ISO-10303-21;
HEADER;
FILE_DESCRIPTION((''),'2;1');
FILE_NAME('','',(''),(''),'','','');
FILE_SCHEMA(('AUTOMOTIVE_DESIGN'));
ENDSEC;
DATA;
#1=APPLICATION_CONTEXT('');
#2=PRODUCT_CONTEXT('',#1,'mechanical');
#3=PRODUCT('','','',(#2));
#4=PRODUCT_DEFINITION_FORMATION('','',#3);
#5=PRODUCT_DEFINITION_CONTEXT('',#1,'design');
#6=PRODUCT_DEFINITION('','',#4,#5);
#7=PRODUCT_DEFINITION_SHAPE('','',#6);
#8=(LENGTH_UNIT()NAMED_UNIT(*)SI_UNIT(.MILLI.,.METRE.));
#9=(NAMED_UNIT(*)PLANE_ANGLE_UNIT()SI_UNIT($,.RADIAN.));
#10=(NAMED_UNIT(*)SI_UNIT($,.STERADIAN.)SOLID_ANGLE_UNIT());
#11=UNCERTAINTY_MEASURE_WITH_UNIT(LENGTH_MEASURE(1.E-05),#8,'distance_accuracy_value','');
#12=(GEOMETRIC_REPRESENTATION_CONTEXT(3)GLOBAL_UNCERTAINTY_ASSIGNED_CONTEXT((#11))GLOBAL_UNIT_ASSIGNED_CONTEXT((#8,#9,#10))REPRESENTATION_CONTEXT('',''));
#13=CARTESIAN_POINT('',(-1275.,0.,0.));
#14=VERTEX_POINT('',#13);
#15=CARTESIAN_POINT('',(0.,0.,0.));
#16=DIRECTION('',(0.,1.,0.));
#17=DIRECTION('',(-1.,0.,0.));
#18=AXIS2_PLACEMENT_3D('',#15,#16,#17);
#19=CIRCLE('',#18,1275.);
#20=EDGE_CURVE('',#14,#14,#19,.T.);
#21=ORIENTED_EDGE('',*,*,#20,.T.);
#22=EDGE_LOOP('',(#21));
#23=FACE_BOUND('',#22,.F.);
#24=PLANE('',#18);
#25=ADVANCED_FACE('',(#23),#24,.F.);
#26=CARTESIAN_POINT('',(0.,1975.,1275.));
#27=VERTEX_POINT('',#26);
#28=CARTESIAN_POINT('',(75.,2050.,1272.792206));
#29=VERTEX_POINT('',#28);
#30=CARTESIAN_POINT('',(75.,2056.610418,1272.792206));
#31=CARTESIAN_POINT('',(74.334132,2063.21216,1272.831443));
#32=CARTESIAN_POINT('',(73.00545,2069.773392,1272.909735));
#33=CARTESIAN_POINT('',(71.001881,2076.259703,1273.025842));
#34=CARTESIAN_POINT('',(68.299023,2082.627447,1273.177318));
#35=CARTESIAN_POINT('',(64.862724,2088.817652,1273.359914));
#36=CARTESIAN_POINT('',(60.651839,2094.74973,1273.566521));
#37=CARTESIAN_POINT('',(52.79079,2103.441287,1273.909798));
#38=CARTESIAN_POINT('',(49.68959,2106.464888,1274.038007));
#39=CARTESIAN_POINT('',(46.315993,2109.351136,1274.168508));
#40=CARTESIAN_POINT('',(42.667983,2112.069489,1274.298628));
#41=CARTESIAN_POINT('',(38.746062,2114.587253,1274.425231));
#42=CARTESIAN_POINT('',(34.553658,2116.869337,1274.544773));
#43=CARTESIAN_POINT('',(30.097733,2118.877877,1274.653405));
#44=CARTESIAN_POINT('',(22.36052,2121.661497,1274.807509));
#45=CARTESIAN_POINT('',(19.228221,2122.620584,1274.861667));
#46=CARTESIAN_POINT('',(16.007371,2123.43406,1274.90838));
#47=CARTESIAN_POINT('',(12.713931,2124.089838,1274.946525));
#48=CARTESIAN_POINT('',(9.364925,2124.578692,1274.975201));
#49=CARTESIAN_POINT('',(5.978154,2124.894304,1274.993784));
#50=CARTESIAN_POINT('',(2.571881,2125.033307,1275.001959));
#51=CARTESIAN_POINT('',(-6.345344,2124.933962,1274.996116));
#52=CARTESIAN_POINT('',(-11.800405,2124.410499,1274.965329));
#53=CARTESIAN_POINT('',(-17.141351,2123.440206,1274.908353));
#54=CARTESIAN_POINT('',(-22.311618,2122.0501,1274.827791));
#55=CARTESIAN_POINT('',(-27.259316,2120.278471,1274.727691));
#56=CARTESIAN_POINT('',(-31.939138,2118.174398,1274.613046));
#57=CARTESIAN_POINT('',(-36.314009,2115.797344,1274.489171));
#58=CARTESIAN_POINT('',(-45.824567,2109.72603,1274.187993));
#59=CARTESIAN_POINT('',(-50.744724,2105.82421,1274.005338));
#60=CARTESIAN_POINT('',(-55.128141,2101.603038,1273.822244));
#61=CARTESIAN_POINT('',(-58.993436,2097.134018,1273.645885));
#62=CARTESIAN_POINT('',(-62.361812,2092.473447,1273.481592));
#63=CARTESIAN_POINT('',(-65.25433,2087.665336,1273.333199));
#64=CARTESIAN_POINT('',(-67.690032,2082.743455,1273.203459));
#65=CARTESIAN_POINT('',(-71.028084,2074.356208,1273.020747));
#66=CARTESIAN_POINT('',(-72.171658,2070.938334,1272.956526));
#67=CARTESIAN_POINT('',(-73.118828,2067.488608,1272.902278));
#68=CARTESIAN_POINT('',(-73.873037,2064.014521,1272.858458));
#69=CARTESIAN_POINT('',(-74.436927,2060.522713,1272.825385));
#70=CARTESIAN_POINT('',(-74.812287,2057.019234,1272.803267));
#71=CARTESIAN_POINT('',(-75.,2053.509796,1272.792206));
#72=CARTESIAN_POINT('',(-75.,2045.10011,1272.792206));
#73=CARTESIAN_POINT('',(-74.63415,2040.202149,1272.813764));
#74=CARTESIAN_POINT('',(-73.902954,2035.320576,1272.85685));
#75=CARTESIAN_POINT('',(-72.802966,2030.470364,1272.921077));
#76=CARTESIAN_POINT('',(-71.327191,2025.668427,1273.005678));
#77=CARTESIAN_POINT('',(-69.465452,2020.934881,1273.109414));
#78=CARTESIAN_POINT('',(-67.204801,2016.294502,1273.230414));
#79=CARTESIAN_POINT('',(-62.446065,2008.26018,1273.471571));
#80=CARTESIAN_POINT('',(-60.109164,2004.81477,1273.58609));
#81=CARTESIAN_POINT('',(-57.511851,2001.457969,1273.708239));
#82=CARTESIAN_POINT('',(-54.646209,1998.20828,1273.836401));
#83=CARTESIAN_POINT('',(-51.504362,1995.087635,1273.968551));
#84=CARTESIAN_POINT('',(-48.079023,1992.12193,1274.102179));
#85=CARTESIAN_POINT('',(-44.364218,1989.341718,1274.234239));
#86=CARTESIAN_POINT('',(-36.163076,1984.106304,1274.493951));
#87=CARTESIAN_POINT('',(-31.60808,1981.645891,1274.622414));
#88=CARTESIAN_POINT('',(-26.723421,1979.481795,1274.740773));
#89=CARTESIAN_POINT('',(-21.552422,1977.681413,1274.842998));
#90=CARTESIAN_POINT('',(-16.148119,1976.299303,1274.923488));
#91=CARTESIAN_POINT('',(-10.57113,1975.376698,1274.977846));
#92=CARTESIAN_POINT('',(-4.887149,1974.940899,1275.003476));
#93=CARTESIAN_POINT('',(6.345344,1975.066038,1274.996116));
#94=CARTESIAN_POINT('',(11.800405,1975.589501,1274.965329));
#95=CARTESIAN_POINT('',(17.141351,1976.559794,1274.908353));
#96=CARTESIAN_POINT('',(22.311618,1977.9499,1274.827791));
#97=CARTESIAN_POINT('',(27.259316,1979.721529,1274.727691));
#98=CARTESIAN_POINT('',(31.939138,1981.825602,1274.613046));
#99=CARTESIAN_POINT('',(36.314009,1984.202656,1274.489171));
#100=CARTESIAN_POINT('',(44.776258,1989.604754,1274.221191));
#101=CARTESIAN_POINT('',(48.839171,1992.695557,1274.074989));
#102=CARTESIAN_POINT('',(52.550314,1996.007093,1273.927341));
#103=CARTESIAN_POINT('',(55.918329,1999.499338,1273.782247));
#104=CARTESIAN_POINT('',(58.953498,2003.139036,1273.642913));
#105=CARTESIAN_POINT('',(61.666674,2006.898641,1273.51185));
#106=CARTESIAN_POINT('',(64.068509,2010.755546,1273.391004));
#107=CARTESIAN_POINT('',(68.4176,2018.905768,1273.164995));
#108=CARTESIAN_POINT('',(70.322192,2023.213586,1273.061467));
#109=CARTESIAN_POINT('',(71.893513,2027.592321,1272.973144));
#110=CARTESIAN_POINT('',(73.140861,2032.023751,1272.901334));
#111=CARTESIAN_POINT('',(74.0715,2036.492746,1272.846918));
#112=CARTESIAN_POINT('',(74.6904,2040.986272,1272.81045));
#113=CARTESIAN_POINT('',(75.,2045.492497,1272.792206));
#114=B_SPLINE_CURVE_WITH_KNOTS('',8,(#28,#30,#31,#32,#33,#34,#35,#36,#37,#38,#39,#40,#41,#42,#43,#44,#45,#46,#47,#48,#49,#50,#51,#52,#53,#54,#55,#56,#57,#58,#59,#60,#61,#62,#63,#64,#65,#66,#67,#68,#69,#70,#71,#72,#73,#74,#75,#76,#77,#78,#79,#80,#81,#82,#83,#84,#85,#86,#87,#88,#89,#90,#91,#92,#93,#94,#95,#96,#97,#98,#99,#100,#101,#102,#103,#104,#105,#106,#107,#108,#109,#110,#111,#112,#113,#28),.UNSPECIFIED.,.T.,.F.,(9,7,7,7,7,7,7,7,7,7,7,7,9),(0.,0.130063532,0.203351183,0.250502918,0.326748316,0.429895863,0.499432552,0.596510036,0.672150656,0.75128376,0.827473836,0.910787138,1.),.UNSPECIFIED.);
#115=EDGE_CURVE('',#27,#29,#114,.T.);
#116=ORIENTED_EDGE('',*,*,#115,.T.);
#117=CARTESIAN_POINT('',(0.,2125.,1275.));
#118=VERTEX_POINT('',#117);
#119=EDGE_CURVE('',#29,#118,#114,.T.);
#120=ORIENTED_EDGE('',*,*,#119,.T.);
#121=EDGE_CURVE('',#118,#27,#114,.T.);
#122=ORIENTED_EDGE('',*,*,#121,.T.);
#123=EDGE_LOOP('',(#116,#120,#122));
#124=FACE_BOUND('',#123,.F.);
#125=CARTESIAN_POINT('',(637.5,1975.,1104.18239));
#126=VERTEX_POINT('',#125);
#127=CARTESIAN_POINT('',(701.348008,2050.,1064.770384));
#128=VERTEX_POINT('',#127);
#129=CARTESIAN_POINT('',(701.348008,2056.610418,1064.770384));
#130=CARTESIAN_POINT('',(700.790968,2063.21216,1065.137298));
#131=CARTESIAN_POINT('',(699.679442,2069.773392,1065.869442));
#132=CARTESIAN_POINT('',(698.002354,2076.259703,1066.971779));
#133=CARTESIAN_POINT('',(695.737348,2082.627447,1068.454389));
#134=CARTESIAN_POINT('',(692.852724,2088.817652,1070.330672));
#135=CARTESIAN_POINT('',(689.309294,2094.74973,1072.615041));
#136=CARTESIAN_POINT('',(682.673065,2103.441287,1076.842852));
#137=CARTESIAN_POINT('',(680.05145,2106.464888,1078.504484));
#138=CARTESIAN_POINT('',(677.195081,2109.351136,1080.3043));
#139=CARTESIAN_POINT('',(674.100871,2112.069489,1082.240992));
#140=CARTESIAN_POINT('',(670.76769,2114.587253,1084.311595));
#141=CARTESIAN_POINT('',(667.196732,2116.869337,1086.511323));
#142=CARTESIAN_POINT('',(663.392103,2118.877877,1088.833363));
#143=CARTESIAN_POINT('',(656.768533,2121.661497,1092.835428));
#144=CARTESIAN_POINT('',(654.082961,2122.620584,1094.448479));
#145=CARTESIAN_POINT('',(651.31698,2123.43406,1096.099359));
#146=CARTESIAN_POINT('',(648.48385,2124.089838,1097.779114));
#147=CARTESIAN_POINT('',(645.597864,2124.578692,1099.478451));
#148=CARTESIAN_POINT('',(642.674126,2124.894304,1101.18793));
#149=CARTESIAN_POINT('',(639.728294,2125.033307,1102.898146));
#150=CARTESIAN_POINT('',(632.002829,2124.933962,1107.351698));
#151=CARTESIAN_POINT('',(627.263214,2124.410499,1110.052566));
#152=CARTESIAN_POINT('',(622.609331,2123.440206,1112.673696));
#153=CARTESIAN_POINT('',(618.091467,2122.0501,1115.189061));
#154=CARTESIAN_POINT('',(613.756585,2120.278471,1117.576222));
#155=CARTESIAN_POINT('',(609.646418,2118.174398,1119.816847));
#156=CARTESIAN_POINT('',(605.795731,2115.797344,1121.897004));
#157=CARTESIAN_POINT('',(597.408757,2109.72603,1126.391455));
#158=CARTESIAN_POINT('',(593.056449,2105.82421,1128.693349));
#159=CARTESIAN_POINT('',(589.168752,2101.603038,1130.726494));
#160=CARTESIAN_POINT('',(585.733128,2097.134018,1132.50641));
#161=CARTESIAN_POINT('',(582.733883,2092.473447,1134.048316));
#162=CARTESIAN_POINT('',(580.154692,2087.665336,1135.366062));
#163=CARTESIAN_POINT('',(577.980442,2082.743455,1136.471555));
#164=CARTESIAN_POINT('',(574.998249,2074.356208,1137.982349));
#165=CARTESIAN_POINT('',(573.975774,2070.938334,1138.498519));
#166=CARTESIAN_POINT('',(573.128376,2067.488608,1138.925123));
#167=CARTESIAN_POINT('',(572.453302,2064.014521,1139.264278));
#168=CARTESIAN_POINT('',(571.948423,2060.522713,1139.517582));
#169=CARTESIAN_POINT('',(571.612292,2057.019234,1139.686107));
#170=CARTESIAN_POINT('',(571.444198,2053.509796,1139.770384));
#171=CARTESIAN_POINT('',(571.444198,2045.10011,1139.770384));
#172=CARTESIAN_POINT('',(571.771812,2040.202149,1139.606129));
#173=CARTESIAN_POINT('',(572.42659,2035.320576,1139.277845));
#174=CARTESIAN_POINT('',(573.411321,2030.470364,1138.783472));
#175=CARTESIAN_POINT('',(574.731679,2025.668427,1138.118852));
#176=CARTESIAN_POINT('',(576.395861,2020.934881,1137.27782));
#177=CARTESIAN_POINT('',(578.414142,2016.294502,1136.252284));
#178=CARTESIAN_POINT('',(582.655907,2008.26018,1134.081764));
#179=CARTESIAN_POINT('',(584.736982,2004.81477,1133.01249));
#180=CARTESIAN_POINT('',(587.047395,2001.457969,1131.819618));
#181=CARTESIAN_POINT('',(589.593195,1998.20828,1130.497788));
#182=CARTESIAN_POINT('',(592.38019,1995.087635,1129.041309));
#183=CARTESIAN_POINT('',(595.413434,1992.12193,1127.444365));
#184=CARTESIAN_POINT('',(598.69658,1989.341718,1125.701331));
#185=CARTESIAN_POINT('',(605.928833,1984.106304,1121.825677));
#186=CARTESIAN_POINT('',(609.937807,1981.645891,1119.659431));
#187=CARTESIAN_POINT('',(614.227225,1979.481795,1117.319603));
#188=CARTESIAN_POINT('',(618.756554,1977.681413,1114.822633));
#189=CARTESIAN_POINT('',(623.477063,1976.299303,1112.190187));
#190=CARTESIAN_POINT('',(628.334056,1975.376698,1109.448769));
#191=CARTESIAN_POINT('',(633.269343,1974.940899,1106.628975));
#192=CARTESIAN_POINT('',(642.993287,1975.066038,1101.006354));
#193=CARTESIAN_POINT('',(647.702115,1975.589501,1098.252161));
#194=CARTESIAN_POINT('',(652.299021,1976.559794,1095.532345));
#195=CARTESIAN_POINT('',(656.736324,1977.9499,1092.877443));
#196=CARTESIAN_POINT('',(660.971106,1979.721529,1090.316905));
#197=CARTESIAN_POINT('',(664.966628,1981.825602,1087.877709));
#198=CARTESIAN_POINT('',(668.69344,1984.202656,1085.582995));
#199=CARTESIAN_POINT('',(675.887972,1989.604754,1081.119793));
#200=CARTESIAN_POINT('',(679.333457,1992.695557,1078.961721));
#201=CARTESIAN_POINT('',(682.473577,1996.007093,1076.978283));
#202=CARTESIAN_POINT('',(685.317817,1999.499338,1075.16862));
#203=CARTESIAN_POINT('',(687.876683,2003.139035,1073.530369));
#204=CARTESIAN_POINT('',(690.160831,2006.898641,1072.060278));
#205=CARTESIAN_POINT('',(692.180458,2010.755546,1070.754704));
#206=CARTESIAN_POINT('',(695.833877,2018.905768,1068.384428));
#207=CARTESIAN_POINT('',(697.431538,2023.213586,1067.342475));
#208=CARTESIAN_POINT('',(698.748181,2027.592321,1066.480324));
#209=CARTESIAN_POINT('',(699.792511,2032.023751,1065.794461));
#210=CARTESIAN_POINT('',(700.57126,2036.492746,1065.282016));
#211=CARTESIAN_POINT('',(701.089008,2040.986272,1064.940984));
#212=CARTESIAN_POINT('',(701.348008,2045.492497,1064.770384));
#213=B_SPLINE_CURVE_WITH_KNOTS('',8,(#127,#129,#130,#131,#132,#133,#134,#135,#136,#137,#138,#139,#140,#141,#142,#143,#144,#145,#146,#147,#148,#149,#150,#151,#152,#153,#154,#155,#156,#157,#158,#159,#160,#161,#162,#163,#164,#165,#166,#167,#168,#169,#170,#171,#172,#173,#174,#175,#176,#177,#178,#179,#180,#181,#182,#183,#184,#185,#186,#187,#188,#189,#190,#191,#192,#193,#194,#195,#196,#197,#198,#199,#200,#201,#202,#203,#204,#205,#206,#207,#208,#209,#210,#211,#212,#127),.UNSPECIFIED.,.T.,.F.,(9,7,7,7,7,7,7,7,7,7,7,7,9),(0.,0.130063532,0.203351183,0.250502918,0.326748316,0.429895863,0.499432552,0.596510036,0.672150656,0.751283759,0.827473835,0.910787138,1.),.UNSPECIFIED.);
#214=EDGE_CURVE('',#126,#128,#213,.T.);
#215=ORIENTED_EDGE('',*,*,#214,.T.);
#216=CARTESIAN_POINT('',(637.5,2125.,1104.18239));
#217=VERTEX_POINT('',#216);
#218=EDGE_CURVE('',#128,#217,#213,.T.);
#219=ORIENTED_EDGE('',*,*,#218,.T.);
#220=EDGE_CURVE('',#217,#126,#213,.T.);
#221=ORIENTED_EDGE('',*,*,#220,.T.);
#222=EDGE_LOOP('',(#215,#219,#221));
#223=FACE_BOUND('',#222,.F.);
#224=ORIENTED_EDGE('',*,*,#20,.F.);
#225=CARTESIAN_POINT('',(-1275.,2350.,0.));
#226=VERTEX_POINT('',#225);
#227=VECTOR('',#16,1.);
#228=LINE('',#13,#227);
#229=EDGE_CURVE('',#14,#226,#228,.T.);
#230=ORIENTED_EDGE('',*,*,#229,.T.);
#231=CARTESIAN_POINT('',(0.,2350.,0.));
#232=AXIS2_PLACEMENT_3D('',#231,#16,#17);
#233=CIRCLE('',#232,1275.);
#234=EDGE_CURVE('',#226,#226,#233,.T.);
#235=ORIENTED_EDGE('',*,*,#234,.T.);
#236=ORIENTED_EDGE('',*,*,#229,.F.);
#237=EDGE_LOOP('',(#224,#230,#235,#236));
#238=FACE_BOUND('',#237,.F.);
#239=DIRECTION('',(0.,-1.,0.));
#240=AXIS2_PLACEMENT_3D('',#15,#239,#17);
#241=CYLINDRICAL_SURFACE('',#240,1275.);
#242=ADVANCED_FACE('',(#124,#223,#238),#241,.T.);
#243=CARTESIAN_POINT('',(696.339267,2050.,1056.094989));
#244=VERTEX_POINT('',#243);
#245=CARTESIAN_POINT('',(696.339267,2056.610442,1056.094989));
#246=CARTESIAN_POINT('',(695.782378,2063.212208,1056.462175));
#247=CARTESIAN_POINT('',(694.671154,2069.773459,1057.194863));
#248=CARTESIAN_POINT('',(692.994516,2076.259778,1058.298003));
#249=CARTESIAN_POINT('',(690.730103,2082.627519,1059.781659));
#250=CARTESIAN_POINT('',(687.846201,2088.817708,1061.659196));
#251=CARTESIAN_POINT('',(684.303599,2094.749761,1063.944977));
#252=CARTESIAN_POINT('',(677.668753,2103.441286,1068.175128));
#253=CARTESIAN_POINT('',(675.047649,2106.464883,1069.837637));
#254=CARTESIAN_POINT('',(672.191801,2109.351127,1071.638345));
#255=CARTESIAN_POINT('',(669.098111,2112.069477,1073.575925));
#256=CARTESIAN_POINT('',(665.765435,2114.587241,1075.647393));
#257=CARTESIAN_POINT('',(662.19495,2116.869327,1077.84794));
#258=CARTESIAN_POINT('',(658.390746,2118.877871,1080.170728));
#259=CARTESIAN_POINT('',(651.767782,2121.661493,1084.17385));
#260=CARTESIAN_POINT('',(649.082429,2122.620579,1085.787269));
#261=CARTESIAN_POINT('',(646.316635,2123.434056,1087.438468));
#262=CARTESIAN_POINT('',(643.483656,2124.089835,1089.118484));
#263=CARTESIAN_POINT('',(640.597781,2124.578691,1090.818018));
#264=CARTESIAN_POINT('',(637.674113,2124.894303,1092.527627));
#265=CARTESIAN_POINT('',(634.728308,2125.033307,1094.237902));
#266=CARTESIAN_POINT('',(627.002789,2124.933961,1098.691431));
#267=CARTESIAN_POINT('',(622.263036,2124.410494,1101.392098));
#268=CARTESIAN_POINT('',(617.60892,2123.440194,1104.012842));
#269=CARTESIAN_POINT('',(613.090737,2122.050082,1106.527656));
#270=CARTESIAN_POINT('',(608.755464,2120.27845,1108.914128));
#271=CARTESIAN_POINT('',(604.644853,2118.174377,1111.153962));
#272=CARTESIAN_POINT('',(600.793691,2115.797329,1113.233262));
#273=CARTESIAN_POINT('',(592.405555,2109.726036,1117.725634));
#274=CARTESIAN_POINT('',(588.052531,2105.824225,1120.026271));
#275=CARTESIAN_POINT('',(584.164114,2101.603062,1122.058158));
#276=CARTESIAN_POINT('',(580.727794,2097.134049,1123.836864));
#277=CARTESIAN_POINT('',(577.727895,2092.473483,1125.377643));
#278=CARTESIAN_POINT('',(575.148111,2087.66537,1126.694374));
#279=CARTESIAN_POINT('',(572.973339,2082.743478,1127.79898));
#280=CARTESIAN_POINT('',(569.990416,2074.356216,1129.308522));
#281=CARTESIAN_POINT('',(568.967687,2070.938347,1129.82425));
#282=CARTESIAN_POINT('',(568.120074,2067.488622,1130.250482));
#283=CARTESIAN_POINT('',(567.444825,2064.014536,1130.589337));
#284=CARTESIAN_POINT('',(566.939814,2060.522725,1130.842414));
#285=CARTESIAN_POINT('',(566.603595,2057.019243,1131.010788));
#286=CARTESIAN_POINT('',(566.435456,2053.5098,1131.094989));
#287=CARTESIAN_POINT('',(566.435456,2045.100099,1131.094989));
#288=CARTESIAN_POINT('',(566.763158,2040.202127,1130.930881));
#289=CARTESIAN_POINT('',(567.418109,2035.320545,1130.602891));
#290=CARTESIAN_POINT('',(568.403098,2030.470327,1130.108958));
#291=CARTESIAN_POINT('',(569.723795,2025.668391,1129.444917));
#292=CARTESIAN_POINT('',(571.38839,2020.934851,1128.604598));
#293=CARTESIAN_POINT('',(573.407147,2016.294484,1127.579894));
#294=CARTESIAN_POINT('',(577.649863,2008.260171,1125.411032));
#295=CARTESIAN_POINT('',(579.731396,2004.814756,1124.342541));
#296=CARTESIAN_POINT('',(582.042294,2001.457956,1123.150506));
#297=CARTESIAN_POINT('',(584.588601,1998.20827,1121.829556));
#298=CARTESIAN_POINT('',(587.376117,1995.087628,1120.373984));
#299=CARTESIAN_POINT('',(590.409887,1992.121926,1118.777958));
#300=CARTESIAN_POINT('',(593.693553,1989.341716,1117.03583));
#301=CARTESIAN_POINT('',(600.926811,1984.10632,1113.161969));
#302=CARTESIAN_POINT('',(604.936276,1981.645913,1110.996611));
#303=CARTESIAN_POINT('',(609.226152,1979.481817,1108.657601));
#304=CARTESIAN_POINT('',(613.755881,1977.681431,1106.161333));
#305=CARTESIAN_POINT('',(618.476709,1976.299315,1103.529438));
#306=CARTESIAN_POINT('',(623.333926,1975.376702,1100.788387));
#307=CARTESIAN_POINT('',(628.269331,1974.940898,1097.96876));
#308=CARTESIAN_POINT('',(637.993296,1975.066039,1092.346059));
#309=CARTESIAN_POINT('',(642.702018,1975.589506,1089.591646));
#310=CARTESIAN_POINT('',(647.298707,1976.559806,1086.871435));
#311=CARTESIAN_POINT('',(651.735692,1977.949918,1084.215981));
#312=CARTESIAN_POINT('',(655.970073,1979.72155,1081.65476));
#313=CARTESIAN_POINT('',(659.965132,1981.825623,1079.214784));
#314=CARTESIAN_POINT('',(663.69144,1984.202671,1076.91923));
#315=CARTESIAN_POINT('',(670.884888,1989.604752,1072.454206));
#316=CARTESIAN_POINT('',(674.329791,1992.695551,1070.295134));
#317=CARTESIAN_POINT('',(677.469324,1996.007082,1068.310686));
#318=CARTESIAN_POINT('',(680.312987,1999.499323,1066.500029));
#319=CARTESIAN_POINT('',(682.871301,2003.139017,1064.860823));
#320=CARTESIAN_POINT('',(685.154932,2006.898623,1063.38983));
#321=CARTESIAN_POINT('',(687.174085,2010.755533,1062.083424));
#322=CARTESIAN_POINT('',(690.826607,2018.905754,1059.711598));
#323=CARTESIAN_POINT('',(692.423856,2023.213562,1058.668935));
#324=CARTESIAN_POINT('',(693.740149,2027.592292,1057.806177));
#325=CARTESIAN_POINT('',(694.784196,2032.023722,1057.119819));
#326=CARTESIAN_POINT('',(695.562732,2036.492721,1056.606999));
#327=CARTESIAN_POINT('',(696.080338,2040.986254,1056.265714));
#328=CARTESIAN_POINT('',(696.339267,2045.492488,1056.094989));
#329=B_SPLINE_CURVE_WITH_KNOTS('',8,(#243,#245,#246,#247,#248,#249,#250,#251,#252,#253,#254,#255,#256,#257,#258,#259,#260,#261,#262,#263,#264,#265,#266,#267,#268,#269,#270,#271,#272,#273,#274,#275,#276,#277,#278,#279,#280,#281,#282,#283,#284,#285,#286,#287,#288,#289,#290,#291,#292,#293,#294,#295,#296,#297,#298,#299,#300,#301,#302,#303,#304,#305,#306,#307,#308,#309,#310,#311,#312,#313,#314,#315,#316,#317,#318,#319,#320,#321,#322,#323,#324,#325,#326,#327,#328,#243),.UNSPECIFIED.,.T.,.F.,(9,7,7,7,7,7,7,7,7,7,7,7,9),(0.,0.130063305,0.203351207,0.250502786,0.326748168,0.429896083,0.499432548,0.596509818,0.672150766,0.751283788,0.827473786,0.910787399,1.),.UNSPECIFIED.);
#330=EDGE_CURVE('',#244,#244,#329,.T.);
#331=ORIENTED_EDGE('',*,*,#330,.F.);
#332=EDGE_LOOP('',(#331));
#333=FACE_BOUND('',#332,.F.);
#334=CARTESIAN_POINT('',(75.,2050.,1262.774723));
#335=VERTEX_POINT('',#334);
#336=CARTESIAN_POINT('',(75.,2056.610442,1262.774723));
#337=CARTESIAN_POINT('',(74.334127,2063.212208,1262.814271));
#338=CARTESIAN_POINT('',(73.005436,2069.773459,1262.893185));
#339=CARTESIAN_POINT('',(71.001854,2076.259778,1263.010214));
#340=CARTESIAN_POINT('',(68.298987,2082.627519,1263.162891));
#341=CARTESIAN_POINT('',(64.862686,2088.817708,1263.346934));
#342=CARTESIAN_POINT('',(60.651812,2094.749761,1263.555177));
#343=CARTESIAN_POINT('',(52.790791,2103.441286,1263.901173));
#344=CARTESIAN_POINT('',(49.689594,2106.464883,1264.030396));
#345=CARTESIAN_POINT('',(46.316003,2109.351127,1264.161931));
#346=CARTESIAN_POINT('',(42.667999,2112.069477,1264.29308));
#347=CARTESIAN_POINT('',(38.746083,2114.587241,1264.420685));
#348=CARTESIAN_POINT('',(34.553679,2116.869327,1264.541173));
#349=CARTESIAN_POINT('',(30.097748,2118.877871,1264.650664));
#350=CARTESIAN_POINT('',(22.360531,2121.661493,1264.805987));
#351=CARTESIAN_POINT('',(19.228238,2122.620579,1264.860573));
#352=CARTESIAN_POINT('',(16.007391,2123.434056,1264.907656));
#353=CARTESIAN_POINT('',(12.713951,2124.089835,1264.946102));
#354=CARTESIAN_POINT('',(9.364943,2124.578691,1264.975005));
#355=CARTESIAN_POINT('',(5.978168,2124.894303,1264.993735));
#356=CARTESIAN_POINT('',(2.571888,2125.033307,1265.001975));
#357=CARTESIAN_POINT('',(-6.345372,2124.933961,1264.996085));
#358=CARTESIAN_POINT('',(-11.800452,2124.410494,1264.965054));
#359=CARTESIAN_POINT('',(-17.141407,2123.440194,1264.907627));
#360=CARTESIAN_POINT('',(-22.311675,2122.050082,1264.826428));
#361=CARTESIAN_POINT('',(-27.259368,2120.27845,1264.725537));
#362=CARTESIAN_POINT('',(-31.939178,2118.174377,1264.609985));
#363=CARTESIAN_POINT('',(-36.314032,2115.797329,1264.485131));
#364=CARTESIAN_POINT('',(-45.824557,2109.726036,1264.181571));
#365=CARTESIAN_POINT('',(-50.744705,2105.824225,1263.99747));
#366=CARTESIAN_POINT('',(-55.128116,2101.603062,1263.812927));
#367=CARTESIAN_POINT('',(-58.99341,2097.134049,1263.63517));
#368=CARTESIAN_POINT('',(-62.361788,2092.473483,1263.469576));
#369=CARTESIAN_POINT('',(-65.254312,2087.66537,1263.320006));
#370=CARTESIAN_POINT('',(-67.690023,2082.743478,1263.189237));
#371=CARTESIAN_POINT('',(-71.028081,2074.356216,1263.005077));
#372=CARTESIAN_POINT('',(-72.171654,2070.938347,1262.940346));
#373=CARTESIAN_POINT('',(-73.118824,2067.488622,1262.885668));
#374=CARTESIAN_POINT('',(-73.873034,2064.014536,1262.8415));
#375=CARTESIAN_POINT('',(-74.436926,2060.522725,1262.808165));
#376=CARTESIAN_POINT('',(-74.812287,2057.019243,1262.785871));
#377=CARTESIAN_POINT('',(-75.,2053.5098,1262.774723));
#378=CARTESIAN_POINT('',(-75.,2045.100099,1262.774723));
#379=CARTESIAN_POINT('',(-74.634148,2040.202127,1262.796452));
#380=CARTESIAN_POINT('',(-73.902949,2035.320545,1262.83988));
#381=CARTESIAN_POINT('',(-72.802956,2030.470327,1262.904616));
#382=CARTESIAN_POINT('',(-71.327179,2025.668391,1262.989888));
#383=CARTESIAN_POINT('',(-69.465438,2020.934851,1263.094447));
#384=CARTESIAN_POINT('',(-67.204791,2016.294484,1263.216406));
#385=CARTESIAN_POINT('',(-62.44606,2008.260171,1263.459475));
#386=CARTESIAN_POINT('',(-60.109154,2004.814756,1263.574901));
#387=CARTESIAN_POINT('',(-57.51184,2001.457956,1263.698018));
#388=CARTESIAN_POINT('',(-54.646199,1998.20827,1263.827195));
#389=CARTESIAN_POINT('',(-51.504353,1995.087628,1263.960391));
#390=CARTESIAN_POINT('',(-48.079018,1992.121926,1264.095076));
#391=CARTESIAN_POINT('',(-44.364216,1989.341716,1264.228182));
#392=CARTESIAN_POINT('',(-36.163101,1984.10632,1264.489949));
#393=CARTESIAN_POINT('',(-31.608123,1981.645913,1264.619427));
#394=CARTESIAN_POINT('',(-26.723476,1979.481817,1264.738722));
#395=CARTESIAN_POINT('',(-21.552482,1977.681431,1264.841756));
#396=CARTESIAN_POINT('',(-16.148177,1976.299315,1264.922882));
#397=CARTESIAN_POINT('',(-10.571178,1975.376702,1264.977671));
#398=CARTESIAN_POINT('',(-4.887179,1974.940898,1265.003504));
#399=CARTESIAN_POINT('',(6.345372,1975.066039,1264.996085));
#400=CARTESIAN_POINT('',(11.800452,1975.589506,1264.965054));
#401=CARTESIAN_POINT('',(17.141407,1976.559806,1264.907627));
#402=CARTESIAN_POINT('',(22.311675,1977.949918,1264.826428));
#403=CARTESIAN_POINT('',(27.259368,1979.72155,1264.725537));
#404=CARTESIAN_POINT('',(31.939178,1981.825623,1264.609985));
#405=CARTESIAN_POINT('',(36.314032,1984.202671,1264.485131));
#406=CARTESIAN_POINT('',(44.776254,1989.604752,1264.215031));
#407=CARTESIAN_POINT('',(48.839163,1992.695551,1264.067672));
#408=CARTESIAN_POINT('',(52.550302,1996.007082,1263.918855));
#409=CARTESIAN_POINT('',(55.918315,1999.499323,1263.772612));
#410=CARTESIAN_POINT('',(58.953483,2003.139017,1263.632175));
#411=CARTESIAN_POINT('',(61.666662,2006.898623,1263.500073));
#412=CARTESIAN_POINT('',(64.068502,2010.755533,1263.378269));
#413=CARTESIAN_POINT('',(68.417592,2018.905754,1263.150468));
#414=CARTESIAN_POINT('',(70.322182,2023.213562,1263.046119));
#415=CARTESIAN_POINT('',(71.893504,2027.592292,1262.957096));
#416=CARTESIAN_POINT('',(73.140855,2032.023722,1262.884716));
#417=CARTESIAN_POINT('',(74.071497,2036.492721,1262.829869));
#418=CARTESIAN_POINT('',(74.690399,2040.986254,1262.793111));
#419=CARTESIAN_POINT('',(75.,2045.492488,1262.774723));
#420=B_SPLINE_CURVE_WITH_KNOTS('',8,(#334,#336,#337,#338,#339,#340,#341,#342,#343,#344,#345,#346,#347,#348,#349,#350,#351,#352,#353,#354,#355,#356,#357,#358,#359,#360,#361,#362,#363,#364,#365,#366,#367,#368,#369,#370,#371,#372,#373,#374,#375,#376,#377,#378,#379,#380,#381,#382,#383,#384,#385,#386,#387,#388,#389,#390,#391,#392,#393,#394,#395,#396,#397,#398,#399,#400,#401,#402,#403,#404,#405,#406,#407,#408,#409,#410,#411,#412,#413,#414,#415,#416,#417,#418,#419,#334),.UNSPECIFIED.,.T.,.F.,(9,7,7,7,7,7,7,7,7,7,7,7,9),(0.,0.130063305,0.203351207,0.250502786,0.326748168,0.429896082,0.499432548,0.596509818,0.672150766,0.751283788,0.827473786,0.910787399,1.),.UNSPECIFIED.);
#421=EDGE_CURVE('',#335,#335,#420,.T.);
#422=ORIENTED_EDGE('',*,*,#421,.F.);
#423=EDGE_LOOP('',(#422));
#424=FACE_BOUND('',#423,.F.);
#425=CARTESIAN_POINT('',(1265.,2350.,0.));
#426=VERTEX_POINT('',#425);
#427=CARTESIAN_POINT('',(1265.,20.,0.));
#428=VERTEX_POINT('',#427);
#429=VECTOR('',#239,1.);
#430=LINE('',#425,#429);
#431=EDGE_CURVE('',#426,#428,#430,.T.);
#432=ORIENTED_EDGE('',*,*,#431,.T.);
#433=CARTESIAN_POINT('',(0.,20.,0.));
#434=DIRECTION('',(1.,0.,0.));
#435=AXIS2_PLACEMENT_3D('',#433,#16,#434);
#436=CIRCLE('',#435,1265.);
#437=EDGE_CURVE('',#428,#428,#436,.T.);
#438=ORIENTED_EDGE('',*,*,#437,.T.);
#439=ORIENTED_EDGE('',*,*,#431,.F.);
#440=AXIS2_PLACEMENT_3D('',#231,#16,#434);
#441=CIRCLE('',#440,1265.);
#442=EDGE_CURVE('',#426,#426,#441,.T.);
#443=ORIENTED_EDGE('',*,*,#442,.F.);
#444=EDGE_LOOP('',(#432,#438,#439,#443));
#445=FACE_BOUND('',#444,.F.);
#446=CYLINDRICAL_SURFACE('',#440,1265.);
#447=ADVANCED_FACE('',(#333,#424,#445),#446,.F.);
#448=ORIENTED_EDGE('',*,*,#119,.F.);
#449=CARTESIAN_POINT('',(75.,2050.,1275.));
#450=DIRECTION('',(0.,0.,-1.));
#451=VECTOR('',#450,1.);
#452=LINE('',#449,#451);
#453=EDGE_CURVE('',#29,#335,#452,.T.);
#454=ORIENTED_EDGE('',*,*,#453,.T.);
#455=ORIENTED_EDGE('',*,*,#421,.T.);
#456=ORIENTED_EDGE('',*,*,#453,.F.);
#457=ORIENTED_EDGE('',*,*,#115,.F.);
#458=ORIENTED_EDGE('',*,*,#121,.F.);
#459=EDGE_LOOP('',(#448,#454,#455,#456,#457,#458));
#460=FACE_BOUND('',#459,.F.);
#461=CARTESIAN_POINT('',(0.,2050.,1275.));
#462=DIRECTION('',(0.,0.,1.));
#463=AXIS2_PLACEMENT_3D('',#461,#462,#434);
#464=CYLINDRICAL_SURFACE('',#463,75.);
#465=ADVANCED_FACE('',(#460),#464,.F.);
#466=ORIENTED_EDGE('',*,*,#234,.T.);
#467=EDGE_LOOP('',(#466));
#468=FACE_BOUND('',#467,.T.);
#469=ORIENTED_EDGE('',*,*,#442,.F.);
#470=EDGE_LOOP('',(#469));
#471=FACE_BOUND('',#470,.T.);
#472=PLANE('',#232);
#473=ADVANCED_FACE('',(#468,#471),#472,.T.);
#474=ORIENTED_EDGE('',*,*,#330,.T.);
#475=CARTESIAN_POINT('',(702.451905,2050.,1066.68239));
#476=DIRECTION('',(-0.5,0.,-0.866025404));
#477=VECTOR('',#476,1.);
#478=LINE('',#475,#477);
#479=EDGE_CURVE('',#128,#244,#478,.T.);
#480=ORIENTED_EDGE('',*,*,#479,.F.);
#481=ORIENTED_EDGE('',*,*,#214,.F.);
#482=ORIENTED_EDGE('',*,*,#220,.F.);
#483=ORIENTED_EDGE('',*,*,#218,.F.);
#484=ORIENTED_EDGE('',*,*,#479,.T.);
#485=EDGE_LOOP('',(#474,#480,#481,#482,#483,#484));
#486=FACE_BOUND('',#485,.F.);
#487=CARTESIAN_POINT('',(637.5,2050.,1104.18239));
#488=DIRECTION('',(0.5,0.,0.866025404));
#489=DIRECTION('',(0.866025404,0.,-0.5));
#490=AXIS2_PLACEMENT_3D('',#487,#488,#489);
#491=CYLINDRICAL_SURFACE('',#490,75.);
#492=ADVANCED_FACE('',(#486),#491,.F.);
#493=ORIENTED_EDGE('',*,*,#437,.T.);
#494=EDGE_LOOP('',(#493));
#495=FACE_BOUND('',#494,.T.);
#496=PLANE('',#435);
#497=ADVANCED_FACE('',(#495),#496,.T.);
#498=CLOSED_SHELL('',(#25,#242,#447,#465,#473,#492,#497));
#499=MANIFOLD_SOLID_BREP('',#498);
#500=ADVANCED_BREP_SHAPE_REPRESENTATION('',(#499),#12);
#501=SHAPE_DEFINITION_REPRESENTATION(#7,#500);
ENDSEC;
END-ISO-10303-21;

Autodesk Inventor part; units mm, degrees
ref_plane "YZ Plane" through (0, 0, 0) normal (1, 0, 0) x (0, 1, 0)
ref_plane "XZ Plane" through (0, 0, 0) normal (0, 1, 0) x (-1, 0, 0)
sketch "Sketch1" plane through (0, 0, 0) normal (0, 1, 0) x (-1, 0, 0)
  circle A0 centre (0, 0) radius 1275
  dimension "d0" = 2550
extrude "Extrusion1" add sketch "Sketch1" along normal blind 2350
sketch "Sketch2" plane through (0, 2350, 0) normal (0, 1, 0) x (1, 0, 0)
  circle A0 centre (0, 0) radius 1265
  dimension "d3" = 2530
extrude "Extrusion2" cut sketch "Sketch2" against normal blind 2330
ref_plane "Work Plane2" through (0, 0, 1275) normal (0, 0, 1) x (1, 0, 0)
sketch "Sketch3" plane through (0, 0, 1275) normal (0, 0, 1) x (1, 0, 0)
  circle A0 centre (0, 2050) radius 75
  line L0 (1275, 2350) -> (-1275, 2350) projected
  point P0 (0, 0)
  dimension "d6" = 150
  dimension "d7" = 300
extrude "Extrusion3" cut sketch "Sketch3" against normal blind 30
pattern_circular "Circular Pattern1" count 2 over 30 about axis through (0, -10, 0) along (0, 1, 0) of "Extrusion3"
properties part number "fish tank 1"
